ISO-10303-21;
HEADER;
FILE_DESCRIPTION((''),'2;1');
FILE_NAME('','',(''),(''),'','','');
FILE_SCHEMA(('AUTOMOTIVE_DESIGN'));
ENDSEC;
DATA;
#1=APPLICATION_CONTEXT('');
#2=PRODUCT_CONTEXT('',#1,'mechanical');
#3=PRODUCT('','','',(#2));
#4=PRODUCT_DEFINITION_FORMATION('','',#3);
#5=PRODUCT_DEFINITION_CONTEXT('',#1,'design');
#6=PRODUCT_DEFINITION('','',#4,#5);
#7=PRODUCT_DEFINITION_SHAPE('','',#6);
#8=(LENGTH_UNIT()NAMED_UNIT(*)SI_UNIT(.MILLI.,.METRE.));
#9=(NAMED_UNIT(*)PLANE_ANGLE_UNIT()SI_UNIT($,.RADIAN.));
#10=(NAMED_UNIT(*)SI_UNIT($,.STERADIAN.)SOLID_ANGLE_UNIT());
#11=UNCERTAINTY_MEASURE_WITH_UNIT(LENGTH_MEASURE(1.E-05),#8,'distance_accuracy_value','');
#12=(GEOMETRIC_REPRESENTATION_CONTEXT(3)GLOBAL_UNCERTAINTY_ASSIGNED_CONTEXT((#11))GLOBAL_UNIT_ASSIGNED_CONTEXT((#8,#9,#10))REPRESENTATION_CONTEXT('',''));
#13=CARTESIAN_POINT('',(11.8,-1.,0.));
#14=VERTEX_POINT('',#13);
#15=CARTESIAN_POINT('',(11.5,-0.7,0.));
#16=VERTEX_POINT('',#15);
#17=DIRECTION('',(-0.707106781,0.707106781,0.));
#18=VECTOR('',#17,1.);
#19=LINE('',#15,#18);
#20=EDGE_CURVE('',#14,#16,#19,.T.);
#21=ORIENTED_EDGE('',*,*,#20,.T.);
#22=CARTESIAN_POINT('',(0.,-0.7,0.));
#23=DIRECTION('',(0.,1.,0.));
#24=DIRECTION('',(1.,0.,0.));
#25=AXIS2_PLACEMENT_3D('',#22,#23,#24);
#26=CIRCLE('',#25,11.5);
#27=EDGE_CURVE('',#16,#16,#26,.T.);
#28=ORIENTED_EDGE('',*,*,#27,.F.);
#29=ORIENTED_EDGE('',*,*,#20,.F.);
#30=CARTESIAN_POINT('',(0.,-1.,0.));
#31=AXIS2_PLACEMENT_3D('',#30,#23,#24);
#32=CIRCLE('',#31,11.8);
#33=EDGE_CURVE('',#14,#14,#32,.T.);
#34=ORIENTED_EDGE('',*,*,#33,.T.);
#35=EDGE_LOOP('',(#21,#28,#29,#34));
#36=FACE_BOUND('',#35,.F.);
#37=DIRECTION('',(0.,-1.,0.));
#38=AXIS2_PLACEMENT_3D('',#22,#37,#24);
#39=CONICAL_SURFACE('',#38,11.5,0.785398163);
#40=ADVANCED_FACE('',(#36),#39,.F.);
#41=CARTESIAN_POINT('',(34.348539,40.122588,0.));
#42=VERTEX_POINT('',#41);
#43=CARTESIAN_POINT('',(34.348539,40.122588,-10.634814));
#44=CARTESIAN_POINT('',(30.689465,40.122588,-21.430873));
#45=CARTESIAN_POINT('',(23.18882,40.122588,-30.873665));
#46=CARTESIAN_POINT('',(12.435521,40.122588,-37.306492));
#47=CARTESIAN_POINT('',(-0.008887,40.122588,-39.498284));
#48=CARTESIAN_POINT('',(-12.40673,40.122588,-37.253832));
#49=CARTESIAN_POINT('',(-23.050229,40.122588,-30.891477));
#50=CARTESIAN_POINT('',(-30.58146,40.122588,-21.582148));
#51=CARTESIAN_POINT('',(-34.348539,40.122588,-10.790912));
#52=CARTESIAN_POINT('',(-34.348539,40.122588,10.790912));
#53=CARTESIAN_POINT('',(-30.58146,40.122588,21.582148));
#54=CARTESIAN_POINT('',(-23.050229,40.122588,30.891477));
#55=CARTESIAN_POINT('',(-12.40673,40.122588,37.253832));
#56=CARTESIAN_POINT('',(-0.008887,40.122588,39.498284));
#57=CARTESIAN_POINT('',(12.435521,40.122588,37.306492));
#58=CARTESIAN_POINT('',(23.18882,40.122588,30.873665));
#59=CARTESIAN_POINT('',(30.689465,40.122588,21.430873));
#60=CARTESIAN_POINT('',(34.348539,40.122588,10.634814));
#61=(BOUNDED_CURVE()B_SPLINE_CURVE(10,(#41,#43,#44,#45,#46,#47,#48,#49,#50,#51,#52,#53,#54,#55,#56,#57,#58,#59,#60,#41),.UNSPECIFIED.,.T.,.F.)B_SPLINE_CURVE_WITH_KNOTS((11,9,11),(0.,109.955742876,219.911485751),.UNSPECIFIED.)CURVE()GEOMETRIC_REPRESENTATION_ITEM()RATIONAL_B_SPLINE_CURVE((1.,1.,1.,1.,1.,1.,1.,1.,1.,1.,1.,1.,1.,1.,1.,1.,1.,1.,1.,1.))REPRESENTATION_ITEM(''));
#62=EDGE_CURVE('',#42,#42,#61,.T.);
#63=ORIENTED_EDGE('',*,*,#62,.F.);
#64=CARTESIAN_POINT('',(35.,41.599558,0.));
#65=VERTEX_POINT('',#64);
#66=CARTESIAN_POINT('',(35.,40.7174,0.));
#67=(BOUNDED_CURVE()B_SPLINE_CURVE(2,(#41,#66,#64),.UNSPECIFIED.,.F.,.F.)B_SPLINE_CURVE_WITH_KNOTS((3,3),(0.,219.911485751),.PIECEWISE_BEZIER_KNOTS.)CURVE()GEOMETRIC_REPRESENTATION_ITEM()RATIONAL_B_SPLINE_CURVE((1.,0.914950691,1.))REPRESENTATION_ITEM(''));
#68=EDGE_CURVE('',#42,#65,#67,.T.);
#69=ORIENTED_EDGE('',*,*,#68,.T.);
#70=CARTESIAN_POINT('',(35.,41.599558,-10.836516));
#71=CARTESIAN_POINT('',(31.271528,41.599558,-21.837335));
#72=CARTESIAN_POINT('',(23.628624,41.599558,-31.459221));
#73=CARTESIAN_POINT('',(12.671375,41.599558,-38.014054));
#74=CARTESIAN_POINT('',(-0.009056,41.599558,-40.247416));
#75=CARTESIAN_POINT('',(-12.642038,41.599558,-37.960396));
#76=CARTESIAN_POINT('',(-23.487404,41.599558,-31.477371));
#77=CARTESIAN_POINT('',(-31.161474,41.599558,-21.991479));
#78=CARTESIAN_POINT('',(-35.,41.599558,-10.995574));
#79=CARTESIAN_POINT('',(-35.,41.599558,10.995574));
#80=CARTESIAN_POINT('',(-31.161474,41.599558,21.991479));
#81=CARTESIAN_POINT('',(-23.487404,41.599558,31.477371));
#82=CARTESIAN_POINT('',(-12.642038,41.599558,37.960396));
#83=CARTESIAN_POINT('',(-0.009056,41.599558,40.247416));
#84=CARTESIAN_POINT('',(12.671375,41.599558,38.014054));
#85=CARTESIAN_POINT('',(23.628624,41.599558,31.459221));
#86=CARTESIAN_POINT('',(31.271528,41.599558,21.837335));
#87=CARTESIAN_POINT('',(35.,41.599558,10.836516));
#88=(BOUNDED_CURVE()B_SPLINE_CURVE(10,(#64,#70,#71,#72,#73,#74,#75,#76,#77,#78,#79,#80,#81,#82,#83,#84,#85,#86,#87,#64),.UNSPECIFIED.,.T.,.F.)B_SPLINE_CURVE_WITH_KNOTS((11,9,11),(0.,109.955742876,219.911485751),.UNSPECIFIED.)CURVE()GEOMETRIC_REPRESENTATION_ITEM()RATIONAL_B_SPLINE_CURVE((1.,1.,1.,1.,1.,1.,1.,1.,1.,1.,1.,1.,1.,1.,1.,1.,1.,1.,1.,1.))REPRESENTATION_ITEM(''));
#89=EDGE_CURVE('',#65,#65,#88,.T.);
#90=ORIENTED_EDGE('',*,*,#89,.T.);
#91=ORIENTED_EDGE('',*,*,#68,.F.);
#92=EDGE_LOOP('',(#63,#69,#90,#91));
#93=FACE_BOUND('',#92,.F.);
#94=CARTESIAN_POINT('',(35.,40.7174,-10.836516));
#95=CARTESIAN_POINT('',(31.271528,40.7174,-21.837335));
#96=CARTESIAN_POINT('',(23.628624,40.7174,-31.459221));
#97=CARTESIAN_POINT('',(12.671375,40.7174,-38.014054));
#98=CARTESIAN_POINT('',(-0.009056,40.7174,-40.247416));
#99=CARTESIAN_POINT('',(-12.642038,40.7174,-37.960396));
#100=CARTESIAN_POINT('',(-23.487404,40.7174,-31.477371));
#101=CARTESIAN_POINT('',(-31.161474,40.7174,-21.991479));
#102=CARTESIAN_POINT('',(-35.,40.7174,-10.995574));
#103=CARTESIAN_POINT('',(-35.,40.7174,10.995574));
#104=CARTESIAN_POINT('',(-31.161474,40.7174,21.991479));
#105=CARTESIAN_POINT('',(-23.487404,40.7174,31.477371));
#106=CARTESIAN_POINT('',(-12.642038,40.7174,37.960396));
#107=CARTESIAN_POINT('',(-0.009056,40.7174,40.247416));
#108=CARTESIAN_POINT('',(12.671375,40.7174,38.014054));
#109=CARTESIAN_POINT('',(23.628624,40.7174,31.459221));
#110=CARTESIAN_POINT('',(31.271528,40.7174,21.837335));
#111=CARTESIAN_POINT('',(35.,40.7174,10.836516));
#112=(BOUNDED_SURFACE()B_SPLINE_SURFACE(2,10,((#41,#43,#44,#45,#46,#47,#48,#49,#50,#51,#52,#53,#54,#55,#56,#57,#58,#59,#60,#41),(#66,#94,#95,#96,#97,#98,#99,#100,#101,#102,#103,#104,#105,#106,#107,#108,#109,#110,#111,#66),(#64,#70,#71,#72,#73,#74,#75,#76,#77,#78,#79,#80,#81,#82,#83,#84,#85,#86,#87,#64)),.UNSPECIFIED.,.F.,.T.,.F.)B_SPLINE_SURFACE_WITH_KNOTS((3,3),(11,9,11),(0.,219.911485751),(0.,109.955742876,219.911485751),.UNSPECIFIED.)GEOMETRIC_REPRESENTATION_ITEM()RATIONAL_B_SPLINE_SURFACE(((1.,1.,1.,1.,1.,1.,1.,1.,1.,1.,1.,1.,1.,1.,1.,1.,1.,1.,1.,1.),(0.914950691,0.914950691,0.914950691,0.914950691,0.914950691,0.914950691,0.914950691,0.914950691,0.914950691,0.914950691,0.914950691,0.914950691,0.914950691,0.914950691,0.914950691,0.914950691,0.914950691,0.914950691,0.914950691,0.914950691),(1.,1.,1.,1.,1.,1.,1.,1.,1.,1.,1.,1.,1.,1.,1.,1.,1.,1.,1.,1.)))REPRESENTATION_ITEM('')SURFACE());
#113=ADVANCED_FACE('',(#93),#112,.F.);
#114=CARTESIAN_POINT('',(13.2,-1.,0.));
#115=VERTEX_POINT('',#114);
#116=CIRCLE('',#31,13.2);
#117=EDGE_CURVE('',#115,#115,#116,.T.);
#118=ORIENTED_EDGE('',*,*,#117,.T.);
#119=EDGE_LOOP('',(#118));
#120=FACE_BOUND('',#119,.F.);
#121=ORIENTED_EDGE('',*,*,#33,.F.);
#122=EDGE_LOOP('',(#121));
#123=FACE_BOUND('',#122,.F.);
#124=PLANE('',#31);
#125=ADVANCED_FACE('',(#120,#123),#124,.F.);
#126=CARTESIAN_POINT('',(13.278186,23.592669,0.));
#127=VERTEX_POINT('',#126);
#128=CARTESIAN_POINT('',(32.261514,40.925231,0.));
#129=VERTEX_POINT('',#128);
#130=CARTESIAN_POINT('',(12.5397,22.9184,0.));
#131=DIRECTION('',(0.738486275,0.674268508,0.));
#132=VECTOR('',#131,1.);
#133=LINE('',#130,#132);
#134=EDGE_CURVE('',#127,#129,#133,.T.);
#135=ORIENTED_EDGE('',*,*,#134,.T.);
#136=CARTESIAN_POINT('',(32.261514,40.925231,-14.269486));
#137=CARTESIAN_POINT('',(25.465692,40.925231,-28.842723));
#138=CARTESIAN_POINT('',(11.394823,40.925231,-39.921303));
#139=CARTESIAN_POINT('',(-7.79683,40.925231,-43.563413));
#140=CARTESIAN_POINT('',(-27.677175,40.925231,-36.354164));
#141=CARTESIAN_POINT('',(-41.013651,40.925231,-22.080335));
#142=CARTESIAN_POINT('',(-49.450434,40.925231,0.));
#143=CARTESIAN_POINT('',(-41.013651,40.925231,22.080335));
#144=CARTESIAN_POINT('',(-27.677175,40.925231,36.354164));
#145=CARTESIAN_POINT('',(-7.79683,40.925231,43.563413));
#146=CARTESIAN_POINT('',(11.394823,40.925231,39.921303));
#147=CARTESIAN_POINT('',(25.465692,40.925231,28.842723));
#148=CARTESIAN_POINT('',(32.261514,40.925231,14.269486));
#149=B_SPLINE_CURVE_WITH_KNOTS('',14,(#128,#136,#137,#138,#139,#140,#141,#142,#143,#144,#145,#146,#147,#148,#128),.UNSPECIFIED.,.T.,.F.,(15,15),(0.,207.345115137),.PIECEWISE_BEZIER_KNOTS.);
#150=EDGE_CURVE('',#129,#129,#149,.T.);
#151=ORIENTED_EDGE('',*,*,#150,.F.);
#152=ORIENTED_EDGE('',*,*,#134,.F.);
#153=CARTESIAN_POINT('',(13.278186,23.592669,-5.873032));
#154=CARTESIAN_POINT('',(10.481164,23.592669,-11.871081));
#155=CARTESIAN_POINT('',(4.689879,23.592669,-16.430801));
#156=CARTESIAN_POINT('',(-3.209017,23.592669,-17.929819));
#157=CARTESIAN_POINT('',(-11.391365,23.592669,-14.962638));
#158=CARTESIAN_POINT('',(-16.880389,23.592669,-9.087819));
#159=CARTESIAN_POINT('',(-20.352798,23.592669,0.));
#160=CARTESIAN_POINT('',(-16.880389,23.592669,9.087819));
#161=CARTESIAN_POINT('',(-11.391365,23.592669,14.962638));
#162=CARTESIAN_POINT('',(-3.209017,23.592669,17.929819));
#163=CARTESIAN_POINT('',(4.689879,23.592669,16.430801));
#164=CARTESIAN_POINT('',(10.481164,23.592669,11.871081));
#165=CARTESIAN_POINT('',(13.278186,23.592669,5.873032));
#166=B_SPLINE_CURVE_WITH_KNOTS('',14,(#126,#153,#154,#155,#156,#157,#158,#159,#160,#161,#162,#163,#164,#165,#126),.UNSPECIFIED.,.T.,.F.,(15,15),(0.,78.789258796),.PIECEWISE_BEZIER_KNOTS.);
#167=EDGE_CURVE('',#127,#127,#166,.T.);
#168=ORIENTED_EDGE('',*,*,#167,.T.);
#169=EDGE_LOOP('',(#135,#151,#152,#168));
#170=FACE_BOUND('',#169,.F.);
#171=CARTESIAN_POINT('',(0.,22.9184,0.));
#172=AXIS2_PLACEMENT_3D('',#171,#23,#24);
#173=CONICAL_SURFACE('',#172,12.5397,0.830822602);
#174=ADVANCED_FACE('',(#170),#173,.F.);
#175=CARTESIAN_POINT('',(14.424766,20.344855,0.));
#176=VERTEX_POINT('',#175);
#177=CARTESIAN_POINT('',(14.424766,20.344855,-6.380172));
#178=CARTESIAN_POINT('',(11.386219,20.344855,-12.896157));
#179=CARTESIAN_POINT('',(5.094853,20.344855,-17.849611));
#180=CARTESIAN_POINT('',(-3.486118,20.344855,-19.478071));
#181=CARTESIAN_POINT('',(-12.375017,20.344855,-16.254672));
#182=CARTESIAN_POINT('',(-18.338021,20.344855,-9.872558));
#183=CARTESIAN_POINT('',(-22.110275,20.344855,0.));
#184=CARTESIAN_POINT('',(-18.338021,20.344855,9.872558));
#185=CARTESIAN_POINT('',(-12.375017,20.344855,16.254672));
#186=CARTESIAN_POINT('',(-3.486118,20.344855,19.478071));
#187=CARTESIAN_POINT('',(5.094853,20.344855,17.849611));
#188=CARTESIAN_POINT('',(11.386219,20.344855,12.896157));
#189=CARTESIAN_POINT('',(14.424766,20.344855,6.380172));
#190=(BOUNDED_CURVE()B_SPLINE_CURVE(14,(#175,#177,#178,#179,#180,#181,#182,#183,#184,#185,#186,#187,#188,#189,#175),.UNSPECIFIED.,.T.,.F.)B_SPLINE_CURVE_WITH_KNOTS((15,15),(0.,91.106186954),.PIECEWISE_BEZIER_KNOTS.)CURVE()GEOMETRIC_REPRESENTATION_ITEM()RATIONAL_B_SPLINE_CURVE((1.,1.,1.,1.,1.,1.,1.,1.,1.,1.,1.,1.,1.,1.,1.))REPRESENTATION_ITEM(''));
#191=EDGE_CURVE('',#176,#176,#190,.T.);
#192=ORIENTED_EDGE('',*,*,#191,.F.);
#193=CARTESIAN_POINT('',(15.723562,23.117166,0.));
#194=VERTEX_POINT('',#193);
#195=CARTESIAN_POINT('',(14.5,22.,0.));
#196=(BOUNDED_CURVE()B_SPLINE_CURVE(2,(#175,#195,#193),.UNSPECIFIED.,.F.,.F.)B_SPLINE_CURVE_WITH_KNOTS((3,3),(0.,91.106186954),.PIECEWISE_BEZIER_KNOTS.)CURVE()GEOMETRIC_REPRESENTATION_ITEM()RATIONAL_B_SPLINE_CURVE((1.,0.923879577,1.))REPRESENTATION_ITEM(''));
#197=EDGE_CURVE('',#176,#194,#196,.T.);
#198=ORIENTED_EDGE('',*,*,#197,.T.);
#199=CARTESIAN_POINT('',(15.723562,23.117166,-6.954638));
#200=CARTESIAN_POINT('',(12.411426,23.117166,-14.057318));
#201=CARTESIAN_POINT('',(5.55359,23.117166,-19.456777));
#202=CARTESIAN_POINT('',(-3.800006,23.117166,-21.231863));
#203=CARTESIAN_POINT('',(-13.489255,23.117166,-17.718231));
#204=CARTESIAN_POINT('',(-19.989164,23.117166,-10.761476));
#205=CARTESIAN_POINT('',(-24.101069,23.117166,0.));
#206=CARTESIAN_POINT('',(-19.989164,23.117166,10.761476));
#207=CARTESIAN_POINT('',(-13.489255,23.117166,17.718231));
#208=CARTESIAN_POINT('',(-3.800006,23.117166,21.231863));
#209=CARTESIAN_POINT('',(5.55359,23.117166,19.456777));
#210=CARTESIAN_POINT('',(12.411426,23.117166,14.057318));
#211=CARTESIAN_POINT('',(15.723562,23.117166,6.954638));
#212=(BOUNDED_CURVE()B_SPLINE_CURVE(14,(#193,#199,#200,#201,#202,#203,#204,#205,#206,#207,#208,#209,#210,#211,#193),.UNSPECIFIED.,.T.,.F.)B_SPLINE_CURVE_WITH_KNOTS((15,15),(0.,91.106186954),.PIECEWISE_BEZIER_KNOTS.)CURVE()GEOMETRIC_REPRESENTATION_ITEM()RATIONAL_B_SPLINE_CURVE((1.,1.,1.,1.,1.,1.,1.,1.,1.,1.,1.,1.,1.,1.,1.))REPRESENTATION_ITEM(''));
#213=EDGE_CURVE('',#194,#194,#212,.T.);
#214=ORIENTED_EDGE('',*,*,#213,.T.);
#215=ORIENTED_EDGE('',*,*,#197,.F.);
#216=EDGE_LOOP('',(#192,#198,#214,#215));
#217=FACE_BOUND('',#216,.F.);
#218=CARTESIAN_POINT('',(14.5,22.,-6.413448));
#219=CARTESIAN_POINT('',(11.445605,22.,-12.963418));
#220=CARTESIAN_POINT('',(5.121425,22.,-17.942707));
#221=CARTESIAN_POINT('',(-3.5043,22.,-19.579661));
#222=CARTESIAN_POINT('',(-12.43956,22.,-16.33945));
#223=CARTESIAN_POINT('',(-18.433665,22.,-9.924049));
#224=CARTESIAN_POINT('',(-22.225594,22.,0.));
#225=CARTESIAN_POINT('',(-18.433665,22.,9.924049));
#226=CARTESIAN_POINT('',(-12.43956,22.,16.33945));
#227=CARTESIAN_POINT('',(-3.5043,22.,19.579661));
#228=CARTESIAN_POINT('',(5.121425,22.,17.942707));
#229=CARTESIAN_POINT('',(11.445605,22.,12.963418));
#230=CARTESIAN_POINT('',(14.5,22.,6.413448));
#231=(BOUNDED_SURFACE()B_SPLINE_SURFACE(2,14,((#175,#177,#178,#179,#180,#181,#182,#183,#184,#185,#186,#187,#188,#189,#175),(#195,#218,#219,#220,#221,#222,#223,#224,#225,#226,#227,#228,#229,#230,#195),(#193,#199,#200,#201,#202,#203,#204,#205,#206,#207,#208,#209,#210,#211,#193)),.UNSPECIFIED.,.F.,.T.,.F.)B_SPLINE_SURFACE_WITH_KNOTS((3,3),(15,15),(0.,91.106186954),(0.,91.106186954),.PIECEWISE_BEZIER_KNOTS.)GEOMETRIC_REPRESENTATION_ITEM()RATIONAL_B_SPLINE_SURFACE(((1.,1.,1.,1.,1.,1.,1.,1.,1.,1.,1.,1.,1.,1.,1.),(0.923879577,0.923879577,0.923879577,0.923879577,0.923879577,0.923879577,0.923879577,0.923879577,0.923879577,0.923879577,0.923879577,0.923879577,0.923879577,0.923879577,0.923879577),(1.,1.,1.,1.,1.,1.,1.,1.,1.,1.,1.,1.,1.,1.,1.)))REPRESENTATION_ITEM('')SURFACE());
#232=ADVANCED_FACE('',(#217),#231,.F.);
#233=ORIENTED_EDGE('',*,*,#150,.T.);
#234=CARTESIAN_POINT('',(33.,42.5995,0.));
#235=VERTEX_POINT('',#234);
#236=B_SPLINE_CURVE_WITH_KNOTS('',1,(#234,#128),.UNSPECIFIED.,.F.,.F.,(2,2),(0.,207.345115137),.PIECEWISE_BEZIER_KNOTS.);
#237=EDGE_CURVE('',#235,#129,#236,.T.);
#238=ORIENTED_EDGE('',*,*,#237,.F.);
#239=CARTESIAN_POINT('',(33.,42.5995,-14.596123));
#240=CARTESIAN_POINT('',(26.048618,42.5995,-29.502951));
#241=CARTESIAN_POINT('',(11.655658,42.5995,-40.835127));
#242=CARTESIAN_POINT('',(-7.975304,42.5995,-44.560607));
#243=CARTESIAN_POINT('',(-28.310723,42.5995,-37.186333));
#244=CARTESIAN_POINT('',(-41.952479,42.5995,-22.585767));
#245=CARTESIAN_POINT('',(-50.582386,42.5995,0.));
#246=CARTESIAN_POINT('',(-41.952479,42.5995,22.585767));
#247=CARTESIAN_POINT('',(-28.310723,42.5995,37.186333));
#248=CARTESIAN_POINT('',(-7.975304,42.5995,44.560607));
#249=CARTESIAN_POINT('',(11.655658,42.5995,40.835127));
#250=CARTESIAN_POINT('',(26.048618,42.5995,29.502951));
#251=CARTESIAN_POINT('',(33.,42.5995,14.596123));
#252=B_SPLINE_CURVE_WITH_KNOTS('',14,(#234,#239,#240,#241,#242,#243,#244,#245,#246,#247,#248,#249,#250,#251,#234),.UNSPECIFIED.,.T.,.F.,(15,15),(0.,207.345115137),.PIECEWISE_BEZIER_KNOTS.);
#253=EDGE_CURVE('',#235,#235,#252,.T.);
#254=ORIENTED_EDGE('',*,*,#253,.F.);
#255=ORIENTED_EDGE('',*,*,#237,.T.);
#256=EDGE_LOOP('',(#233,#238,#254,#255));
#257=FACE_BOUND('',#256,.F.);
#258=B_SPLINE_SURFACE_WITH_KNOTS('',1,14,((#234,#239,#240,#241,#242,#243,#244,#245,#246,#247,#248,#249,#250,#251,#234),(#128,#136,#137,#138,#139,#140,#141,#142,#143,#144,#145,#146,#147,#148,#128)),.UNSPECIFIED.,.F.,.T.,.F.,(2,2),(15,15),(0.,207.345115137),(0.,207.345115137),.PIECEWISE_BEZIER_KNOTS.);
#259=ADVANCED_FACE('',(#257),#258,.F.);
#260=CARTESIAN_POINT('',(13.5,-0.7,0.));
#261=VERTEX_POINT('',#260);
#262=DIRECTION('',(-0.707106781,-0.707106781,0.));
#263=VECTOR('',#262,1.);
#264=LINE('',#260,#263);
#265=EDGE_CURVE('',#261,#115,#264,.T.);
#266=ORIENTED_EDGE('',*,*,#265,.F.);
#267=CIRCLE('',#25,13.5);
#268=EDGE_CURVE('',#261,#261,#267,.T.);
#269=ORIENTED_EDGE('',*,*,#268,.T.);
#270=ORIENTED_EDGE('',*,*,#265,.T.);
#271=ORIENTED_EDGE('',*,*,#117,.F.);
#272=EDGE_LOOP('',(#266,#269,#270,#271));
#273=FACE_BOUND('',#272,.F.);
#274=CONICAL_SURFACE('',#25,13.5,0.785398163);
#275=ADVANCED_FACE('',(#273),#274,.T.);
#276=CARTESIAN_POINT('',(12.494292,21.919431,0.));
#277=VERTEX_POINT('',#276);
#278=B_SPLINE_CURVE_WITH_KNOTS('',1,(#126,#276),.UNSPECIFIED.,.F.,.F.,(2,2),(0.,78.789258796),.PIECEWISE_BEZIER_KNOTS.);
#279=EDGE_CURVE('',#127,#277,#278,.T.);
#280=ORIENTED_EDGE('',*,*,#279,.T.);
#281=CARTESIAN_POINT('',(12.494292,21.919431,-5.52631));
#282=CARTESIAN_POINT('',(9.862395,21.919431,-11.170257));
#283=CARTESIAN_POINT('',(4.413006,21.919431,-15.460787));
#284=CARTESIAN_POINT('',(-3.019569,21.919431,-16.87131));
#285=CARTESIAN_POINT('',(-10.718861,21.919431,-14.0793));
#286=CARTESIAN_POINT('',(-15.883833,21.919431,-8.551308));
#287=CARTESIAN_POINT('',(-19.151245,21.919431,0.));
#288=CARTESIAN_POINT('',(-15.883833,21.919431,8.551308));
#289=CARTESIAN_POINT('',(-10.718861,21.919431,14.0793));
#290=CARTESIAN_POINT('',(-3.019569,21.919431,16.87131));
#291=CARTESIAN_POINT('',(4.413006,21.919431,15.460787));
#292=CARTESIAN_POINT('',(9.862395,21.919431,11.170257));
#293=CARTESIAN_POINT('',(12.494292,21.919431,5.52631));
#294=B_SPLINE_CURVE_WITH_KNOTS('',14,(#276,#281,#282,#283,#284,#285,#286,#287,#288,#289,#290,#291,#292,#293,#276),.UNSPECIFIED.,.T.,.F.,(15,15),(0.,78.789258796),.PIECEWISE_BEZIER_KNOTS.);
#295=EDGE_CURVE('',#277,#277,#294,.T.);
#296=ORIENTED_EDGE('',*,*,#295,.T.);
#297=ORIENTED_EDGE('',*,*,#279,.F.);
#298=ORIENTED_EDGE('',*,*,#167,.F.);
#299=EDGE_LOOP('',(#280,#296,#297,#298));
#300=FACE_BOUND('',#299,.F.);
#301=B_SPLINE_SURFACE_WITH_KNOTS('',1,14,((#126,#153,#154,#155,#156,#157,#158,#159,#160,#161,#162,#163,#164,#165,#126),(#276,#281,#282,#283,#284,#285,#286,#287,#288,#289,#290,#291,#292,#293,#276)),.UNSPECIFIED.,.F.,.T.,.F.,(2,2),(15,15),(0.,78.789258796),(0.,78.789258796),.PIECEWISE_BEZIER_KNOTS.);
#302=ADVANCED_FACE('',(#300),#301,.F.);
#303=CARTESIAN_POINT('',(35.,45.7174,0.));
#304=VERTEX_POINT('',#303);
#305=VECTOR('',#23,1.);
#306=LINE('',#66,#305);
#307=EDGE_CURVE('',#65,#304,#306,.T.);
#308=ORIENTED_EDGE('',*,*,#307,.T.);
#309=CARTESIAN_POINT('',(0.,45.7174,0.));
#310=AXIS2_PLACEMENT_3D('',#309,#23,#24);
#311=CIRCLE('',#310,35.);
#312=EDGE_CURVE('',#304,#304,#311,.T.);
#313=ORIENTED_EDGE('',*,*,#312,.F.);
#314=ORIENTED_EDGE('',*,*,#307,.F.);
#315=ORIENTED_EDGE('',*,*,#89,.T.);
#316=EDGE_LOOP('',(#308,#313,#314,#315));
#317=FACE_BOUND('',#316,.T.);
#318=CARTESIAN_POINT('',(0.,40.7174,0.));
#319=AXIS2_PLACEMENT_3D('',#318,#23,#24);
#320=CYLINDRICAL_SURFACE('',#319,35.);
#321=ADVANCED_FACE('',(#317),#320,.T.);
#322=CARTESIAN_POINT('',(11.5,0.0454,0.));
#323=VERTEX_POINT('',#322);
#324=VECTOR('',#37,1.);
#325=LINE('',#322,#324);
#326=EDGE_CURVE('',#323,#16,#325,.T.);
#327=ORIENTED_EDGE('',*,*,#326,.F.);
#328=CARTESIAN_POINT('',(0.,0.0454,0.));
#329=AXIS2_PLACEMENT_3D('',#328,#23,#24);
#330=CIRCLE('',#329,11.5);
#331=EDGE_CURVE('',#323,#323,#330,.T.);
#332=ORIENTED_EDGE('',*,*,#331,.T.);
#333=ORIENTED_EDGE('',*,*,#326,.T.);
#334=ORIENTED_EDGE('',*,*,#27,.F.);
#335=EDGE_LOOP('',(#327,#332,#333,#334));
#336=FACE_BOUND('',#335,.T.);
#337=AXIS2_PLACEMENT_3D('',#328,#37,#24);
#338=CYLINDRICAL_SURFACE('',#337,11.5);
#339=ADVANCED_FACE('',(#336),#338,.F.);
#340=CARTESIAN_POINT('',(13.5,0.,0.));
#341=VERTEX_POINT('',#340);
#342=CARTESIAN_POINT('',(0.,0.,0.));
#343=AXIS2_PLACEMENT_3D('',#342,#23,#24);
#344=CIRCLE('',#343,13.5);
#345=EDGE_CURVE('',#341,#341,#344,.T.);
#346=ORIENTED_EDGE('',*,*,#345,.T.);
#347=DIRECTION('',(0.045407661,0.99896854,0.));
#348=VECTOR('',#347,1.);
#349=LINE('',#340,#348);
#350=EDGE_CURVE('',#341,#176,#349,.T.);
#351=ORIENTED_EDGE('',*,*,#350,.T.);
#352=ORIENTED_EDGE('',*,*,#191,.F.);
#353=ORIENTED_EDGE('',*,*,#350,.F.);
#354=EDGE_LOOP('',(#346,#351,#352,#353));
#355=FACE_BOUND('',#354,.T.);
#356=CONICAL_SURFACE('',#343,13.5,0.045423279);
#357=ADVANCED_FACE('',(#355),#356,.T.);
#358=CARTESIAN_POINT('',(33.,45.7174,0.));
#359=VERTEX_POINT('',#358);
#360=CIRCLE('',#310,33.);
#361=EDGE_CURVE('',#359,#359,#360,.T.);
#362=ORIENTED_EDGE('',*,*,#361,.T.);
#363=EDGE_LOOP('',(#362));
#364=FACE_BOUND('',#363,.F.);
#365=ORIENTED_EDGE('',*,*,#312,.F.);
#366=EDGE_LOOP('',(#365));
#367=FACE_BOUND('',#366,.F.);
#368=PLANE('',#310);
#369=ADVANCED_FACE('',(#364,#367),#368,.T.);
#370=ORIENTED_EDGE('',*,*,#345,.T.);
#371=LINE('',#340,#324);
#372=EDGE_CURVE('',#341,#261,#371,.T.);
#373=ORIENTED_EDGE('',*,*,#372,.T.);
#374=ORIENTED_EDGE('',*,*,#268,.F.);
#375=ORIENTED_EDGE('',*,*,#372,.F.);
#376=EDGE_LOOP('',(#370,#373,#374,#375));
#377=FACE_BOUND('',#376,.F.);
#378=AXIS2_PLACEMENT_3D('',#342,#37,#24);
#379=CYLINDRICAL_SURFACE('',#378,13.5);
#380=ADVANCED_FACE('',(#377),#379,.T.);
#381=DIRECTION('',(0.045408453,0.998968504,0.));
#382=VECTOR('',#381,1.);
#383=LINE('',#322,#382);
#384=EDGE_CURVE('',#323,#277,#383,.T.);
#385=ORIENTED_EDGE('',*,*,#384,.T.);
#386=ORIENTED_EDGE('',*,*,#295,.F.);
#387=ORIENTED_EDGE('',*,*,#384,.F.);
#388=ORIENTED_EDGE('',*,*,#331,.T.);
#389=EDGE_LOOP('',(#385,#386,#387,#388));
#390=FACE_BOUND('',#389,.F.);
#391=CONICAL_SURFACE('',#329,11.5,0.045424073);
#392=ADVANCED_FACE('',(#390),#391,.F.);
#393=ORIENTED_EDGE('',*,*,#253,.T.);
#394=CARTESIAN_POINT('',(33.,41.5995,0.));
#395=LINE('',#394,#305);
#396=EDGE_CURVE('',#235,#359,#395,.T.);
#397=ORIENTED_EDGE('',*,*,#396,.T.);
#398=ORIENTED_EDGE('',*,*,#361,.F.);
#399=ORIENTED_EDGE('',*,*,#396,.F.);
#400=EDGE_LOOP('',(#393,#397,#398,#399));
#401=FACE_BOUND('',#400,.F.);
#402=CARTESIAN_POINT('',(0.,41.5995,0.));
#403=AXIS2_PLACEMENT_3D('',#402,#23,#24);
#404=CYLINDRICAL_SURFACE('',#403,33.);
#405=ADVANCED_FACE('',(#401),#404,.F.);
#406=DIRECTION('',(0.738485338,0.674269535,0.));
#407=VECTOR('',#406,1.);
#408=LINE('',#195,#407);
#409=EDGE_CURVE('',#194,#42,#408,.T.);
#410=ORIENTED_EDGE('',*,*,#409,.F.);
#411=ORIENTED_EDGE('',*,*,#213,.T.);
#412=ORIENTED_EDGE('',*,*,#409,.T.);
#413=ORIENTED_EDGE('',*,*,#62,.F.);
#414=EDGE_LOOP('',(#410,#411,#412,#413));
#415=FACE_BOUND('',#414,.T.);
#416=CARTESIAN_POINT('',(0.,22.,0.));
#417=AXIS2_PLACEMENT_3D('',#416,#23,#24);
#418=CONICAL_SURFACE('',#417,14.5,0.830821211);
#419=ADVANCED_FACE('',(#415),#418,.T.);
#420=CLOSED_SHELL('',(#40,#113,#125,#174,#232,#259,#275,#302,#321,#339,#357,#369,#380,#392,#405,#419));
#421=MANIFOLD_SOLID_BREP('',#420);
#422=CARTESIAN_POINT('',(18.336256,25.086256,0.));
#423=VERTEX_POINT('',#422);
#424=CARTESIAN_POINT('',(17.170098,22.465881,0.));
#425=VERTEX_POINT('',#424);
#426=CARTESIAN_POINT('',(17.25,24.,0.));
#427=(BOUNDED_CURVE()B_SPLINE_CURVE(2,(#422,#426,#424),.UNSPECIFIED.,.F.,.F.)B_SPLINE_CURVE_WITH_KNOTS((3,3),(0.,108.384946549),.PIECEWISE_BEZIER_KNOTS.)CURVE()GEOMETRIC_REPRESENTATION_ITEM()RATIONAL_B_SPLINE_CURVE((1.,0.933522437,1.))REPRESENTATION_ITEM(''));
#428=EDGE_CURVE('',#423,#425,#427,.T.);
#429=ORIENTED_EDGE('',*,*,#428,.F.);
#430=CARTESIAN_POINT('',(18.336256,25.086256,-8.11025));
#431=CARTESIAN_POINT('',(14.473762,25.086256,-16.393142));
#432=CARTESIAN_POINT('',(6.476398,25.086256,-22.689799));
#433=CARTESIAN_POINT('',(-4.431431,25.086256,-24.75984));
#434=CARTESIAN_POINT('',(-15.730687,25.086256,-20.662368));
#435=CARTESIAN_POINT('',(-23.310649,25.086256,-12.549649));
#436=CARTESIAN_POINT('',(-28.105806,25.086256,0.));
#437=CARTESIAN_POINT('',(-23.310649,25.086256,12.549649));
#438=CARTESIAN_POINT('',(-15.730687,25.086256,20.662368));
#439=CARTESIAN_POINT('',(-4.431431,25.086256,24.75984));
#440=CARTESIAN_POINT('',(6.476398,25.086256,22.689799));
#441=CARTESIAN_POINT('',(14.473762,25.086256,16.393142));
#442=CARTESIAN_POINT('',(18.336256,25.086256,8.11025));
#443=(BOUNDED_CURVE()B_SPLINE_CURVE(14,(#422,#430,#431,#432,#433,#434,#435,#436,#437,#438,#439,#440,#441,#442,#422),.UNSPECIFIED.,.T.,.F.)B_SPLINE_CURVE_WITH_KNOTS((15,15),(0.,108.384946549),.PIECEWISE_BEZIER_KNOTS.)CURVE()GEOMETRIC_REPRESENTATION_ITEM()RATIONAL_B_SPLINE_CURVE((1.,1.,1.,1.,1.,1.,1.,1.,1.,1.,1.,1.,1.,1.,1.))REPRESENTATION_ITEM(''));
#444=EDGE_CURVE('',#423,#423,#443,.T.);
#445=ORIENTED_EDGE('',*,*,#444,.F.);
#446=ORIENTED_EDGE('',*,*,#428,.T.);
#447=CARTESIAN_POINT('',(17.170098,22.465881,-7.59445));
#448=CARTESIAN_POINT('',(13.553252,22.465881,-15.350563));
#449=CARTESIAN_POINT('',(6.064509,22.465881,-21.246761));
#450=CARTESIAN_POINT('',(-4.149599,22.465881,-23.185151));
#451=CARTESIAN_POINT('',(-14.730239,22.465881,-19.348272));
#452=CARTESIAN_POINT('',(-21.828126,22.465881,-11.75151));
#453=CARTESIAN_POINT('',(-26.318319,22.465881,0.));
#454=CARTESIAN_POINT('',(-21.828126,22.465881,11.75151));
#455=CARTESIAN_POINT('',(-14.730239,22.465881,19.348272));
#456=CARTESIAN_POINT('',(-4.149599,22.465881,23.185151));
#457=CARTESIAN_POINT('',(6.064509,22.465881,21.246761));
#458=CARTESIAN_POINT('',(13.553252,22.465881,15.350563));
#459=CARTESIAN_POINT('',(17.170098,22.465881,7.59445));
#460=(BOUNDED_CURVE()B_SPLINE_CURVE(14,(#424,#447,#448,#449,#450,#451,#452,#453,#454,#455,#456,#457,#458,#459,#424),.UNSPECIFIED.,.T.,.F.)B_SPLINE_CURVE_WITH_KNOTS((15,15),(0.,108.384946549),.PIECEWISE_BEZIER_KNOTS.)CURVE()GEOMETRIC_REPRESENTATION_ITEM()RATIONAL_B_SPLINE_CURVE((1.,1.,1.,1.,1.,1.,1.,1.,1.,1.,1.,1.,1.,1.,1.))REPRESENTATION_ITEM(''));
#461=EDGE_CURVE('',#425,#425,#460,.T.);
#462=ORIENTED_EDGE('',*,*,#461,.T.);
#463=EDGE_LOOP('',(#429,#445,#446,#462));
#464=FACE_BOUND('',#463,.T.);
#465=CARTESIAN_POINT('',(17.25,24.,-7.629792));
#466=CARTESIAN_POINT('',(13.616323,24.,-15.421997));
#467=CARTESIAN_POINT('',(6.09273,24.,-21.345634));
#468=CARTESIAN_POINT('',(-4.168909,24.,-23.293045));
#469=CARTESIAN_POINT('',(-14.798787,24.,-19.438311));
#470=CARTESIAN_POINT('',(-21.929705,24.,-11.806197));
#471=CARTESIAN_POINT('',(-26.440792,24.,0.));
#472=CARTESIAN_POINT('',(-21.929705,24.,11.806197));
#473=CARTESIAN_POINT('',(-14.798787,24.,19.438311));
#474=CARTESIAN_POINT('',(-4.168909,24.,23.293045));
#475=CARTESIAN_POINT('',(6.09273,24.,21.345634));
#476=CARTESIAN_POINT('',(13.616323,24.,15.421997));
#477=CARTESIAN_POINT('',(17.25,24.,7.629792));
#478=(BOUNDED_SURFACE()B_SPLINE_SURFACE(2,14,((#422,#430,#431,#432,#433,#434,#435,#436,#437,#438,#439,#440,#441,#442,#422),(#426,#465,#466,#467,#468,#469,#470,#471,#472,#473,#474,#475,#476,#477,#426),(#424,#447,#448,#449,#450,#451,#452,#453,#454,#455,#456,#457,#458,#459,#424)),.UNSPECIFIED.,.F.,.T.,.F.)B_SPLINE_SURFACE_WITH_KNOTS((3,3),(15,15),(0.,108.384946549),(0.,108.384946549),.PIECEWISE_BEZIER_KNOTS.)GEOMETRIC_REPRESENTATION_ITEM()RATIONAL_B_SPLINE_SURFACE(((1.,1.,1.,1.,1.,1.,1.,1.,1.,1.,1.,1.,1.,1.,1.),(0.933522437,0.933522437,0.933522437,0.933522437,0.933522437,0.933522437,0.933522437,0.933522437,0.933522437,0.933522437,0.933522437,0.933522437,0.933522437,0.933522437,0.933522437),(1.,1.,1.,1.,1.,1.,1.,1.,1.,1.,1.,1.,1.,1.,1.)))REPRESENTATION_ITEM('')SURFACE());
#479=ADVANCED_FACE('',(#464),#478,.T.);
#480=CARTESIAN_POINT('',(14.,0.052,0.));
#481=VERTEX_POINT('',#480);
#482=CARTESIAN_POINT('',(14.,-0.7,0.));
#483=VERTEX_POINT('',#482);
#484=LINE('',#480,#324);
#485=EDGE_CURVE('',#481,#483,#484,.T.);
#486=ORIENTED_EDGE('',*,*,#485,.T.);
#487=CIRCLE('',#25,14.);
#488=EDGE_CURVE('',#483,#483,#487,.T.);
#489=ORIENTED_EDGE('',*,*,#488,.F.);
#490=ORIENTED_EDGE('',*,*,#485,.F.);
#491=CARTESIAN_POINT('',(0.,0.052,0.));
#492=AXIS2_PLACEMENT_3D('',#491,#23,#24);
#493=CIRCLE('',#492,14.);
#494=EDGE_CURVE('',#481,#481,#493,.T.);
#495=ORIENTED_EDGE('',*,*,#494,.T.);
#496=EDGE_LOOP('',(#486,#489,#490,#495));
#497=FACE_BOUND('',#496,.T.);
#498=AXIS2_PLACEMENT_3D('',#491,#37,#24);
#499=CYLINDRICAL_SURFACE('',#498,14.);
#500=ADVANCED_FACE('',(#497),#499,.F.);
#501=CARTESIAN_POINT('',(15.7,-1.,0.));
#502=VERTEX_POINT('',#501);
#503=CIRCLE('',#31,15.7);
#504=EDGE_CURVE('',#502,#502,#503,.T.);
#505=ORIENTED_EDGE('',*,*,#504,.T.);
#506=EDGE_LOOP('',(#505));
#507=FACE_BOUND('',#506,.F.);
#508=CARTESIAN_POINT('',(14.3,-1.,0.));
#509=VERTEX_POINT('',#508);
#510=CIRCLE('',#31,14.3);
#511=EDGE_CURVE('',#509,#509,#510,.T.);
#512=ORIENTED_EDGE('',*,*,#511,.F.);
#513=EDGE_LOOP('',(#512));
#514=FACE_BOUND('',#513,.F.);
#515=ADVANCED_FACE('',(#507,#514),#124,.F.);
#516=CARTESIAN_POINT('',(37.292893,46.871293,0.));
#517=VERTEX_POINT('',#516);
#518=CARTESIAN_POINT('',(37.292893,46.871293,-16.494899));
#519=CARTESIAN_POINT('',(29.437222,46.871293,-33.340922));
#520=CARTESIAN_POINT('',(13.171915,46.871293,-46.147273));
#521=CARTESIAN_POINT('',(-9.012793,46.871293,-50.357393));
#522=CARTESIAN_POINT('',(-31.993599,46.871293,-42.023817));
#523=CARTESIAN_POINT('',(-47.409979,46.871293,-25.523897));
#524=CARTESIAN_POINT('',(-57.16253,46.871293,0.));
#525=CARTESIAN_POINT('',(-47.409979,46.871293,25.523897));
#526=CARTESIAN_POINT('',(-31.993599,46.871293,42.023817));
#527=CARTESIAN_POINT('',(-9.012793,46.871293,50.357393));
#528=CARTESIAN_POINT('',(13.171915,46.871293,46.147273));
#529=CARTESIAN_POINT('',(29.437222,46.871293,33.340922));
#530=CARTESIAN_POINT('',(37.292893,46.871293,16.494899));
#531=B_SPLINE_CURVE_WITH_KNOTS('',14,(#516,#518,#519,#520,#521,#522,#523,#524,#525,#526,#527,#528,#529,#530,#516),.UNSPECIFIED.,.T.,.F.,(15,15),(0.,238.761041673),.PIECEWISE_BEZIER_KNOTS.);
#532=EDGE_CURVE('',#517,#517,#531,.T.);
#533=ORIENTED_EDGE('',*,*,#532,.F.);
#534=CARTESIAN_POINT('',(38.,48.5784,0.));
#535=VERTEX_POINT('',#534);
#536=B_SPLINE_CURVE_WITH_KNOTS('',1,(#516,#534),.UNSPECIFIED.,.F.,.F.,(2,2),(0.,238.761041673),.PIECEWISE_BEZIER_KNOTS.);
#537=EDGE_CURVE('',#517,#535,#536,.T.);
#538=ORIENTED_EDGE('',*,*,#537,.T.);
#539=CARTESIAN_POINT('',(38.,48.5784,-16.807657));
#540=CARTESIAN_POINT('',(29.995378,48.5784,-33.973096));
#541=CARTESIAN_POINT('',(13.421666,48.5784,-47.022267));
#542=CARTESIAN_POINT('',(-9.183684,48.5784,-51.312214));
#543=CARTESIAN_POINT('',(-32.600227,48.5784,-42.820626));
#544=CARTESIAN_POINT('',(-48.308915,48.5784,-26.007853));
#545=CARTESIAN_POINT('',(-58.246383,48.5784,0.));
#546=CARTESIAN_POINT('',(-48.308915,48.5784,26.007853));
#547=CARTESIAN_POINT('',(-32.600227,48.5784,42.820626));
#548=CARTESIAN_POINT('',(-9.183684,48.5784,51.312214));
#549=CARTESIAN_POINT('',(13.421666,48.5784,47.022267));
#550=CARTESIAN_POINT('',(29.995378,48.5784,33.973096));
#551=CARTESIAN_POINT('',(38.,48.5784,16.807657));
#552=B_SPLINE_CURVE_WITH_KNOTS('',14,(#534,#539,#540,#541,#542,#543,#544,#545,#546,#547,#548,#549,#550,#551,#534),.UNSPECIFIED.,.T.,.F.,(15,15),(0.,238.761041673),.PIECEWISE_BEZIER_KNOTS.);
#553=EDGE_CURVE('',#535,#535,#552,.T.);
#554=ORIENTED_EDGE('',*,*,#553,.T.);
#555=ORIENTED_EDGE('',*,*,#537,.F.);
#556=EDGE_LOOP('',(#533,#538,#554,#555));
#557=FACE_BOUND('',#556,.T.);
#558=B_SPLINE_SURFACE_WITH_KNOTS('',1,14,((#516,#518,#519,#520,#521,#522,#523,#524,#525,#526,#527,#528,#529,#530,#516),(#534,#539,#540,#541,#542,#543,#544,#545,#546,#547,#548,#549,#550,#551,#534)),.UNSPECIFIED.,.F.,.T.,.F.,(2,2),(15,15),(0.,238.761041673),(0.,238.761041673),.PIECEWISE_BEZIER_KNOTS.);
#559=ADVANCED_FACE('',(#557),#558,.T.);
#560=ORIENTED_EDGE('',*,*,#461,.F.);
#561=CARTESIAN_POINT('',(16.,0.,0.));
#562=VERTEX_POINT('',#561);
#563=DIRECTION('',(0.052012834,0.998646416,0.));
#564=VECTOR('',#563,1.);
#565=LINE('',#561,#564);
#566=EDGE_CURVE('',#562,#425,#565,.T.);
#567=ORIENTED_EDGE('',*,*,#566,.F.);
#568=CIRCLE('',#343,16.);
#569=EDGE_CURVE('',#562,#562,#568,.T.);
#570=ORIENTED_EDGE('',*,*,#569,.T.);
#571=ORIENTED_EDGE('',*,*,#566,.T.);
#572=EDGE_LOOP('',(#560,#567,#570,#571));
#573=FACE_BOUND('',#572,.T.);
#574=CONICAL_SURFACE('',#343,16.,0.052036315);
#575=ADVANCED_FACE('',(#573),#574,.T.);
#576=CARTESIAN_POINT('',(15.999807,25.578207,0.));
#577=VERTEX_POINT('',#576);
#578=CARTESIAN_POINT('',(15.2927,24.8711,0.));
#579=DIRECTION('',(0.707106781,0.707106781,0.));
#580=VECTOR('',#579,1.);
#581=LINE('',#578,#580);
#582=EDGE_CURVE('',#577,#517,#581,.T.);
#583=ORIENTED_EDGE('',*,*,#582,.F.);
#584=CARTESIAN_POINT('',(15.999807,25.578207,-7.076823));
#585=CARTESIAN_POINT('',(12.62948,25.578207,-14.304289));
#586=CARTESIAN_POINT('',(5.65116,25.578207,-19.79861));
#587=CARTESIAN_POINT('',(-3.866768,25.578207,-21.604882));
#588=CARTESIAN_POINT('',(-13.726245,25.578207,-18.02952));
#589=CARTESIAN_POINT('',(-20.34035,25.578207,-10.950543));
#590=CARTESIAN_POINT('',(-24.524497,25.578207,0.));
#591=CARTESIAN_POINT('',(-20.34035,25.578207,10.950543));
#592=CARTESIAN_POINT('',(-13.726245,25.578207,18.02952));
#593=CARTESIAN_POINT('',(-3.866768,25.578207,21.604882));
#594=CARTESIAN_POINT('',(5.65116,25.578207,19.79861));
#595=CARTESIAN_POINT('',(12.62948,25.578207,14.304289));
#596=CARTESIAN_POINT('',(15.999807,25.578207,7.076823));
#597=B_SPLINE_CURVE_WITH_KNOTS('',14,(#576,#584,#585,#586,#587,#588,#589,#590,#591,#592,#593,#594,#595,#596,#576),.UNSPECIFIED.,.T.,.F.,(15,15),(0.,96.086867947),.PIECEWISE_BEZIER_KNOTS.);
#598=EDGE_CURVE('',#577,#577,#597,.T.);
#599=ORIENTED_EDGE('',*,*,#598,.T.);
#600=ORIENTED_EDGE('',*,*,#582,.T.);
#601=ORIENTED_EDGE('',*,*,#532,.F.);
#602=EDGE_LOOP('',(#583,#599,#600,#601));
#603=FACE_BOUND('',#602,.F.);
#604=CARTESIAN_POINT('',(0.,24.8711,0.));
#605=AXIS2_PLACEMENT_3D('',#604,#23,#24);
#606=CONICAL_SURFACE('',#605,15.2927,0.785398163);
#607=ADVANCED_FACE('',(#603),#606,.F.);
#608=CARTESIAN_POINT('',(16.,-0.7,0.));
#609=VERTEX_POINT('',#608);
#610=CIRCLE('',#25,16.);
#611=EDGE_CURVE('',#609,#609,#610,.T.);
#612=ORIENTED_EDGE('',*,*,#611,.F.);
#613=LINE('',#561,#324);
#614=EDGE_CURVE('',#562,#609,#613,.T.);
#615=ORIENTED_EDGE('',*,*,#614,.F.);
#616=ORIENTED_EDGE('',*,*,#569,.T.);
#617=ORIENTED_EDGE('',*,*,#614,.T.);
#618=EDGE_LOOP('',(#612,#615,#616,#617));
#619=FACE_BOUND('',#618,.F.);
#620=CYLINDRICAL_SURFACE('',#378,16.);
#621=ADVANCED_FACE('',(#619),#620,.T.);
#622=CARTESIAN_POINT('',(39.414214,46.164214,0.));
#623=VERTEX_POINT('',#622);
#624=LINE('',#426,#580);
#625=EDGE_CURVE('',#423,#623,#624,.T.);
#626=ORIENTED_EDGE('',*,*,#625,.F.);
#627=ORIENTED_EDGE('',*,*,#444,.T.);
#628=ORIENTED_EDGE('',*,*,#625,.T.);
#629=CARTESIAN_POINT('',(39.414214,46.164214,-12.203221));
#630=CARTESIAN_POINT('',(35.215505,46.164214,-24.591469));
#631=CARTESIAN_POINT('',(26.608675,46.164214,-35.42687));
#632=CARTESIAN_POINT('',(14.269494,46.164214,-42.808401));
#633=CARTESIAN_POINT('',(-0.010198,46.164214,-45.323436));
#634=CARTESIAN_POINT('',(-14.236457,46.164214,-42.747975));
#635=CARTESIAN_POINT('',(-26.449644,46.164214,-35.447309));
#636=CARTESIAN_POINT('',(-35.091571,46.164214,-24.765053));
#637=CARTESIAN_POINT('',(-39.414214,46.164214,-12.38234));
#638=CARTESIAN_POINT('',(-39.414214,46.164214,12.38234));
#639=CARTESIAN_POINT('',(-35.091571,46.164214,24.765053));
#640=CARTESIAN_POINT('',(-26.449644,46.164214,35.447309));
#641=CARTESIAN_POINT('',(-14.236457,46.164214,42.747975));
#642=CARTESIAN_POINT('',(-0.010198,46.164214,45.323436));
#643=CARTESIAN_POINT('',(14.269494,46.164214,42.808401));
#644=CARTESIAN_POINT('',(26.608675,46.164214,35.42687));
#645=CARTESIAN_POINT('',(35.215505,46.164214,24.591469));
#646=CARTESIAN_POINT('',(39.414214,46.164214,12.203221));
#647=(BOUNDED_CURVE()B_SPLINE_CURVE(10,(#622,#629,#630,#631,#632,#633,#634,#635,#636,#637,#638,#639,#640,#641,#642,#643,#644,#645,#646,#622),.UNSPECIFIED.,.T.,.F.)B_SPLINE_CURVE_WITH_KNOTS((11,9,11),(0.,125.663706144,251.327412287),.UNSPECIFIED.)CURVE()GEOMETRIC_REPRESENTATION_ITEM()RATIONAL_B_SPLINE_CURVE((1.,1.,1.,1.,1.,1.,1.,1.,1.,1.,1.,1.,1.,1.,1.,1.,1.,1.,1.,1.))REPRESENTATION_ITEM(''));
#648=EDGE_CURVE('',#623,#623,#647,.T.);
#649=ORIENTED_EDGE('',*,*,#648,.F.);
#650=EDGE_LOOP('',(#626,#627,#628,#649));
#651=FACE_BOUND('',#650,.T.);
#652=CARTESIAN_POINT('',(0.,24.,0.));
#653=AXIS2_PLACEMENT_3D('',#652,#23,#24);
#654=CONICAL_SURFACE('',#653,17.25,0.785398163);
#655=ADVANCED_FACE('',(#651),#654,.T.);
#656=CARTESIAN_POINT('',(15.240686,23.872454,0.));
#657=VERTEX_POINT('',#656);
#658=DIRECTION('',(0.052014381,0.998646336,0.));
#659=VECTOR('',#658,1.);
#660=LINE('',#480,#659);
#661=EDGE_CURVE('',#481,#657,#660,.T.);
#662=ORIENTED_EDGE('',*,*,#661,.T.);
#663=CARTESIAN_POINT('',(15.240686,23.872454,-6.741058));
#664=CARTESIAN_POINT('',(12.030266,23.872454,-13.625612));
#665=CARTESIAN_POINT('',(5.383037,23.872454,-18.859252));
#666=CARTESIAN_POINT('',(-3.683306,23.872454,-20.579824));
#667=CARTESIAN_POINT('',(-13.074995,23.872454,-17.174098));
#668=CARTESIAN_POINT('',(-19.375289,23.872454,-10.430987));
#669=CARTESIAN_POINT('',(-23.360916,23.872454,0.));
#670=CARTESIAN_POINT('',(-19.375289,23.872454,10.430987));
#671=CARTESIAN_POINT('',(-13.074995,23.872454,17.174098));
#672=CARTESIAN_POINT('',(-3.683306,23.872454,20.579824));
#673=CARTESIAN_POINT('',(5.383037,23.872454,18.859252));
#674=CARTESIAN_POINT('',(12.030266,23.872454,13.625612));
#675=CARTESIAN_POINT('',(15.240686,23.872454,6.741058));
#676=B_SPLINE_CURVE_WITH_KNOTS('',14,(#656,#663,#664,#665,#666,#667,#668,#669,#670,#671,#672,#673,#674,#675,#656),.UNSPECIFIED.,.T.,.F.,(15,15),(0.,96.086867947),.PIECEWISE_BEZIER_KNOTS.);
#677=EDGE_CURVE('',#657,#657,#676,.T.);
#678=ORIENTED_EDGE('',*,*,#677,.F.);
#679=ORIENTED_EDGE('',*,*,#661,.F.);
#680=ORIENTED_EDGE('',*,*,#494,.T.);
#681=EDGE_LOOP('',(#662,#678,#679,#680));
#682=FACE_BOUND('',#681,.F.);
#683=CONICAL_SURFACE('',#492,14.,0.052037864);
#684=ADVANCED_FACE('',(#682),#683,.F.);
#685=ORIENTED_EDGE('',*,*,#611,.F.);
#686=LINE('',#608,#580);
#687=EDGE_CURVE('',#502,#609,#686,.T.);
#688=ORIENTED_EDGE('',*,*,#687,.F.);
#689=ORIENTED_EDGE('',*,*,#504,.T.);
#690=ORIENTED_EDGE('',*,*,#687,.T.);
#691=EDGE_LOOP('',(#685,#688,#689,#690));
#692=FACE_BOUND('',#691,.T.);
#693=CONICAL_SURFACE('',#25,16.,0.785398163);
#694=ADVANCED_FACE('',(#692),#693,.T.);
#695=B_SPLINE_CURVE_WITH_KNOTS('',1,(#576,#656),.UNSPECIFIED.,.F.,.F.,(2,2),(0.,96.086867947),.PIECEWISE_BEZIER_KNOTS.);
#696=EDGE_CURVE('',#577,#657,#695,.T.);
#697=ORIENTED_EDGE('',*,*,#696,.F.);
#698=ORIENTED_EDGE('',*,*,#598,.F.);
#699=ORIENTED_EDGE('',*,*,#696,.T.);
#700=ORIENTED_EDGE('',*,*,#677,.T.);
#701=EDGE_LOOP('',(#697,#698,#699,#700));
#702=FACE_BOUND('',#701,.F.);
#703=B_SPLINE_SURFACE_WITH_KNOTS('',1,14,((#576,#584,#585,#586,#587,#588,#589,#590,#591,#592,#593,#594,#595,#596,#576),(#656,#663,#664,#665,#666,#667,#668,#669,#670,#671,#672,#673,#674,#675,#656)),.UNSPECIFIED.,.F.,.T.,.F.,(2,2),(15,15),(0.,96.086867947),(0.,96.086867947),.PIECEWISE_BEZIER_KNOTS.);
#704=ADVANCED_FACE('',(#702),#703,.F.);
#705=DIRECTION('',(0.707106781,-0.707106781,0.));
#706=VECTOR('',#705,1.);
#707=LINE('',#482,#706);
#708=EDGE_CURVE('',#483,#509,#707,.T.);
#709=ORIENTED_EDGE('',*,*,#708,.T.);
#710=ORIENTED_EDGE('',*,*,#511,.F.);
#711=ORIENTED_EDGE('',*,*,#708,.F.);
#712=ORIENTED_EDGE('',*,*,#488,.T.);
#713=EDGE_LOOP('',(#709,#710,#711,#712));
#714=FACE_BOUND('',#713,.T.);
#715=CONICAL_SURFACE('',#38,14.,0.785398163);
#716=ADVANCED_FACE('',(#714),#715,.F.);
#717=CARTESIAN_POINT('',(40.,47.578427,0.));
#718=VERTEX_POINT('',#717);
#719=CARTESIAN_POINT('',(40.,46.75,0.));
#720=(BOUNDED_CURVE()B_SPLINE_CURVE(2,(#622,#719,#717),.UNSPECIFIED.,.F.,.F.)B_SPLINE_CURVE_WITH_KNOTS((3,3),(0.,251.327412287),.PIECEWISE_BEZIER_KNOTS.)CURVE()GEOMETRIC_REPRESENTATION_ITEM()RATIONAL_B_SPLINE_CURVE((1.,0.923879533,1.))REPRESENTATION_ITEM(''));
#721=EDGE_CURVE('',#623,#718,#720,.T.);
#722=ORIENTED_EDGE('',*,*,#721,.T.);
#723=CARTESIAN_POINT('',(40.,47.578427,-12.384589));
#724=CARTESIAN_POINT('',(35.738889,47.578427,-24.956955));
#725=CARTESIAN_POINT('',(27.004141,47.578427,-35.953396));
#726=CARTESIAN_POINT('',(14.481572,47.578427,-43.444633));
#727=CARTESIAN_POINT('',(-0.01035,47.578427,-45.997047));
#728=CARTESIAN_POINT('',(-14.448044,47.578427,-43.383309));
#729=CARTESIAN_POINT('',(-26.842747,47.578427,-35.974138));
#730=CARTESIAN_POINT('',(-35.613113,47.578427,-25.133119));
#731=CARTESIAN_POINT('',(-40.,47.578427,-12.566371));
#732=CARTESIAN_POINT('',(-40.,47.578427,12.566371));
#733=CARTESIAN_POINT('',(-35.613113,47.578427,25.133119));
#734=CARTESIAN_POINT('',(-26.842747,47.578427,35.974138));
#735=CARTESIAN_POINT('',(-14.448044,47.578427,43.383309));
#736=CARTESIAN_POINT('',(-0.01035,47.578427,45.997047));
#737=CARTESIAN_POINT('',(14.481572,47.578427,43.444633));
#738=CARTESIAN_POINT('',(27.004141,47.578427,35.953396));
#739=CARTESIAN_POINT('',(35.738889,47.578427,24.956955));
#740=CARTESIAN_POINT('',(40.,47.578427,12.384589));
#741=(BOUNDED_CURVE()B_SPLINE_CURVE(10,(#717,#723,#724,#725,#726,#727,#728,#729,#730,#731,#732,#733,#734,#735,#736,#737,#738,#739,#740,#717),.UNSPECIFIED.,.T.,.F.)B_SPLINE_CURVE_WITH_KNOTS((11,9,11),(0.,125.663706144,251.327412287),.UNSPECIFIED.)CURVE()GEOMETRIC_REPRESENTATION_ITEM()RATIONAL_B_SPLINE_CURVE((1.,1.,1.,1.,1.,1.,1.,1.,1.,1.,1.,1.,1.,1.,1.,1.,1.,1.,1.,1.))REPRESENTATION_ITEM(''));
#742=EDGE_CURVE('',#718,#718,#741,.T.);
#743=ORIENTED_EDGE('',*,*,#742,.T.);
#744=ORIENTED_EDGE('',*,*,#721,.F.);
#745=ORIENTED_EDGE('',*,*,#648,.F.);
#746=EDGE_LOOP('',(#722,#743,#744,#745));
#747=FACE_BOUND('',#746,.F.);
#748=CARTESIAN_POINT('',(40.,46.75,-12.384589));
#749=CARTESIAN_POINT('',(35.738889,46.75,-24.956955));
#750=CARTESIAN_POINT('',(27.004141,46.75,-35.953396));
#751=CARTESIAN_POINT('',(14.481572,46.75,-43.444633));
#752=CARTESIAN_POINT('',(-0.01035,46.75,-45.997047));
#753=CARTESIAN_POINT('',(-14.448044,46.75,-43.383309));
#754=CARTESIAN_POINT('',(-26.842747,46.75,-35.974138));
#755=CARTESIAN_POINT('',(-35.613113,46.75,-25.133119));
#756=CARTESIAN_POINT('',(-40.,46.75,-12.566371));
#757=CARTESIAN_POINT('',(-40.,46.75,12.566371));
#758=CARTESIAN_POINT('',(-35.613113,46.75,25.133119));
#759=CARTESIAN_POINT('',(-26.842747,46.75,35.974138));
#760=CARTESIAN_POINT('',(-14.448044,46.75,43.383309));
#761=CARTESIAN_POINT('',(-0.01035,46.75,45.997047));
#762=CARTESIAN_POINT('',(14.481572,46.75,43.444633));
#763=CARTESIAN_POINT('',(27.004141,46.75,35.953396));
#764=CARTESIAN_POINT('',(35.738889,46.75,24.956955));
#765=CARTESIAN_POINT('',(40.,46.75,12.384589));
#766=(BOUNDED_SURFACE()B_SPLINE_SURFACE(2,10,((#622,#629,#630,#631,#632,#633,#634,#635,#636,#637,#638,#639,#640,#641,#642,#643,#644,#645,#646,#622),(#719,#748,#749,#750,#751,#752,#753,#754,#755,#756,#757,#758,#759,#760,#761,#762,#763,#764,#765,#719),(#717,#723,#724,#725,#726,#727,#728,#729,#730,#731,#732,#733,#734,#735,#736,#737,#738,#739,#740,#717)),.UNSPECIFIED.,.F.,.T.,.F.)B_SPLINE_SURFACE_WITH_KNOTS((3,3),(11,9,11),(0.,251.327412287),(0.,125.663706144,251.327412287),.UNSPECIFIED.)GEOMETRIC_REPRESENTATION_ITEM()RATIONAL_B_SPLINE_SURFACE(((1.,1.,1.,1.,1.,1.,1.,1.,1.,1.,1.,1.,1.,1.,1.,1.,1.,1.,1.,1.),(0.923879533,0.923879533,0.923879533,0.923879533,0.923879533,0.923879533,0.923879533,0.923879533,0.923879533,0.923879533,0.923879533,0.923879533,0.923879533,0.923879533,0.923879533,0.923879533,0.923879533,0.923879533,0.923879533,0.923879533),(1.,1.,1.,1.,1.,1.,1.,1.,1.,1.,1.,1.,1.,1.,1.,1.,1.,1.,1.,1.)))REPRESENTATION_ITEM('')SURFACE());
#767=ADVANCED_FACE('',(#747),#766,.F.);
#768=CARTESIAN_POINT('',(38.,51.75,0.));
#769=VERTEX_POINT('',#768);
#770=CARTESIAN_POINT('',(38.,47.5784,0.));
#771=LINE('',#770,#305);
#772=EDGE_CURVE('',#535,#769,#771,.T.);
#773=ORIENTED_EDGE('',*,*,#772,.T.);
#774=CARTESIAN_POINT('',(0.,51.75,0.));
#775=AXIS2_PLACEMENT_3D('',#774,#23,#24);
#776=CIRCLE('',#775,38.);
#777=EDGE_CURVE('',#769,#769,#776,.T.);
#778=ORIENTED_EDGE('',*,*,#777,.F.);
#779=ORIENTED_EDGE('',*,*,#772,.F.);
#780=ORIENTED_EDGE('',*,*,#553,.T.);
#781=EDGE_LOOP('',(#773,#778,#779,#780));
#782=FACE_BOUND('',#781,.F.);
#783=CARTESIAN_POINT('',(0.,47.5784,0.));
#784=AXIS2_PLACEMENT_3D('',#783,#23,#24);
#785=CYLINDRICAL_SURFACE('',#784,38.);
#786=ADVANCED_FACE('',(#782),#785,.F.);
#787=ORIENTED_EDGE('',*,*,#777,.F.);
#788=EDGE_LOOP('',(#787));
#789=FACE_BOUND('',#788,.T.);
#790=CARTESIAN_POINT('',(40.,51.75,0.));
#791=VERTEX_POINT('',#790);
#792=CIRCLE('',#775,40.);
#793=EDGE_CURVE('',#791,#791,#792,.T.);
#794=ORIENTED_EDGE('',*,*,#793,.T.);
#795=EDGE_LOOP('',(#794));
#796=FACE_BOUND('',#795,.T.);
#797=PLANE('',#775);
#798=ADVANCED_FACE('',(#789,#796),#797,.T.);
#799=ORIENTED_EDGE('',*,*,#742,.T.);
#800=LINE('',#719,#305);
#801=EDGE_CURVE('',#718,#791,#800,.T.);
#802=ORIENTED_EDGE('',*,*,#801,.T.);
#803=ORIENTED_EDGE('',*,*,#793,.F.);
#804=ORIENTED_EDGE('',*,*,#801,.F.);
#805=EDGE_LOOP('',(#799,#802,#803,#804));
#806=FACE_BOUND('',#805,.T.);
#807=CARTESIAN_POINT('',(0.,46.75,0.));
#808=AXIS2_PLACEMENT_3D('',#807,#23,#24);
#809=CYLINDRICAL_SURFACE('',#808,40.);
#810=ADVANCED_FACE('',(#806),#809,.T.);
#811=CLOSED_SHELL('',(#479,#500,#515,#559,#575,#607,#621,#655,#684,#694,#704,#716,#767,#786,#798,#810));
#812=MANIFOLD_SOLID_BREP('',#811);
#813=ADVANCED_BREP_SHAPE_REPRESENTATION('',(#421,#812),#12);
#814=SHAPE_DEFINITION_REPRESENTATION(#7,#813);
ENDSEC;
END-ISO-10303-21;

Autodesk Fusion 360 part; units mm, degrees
sketch "Sketch1" plane through (0, 0, 0) normal (0, 0, 1) x (1, 0, 0)
  line L0 (16, 0) -> (17.25, 24)
  line L1 (17.25, 24) -> (40, 46.75)
  line L2 (17.25, 24) -> (32.4024, 24) construction
  line L3 (40, 46.75) -> (40, 51.75)
  line L4 (16, 0) -> (16, -1)
  line L5 (38, 47.5784) -> (38, 51.75)
  line L6 (15.2927, 24.8711) -> (38, 47.5784)
  line L7 (14, 0.052) -> (15.2927, 24.8711)
  line L8 (14, 0.052) -> (14, -1)
  line L9 (40, 51.75) -> (38, 51.75)
  line L10 (16, -1) -> (14, -1)
  dimension "d1" = 16
  dimension "d2" = 17.25
  dimension "d3" = 24
  dimension "d6" = 45
  dimension "d7" = 40
  dimension "d8" = 5
  dimension "d9" = 1
  dimension "d10" = -2
revolve "Revolve1" add sketch "Sketch1" angle 360 about axis through (0, 1.75, 0) along (0, 1, 0) makes body 1
fillet "Fillet1" radius 4 1 edges at (-16.0826, 24, -6.2379) on bodies 1
fillet "Fillet2" radius 2 1 edges at (-37.2931, 46.75, -14.4646) on bodies 1
chamfer "Chamfer1" distance 1 angle 45 1 edges at (-14.2578, 24.8711, -5.5301) on bodies 1
chamfer "Chamfer2" distance 1 angle 45 1 edges at (-35.4284, 47.5784, -13.7414) on bodies 1
chamfer "Chamfer3" distance 0.3 angle 45 2 edges at (-13.0526, -1, -5.0626) (-14.9172, -1, -5.7858) on bodies 1
sketch "Sketch2" plane through (0, 0, 0) normal (0, 0, 1) x (1, 0, 0)
  line L0 (13.5, 0) -> (14.5, 22)
  line L1 (14.5, 22) -> (35, 40.7174)
  line L2 (35, 40.7174) -> (35, 45.7174)
  line L3 (13.5, 0) -> (13.5, -1)
  line L4 (33, 41.5995) -> (33, 45.7174)
  line L5 (12.5397, 22.9184) -> (33, 41.5995)
  line L6 (11.5, 0.0454) -> (12.5397, 22.9184)
  line L7 (11.5, 0.0454) -> (11.5, -1)
  line L8 (13.5, -1) -> (11.5, -1)
  line L9 (33, 45.7174) -> (35, 45.7174)
  dimension "d19" = 135
  dimension "d20" = 5
  dimension "d21" = 13.5
  dimension "d22" = 14.5
  dimension "d23" = 22
  dimension "d24" = 35
  dimension "d25" = 1
  dimension "d26" = -2
revolve "Revolve2" add sketch "Sketch2" angle 360 about axis through (0, 1.75, 0) along (0, 1, 0) separate body makes body 2
chamfer "Chamfer4" distance 0.3 angle 45 2 edges at (-10.7218, -1, -4.1586) (-12.5864, -1, -4.8818) on bodies 2
fillet "Fillet3" radius 4 1 edges at (-13.5187, 22, -5.2434) on bodies 2
fillet "Fillet4" radius 2 1 edges at (-32.6315, 40.7174, -12.6565) on bodies 2
chamfer "Chamfer5" distance 1 angle 45 2 edges at (-30.7668, 41.5995, -11.9333) (-11.6911, 22.9184, -4.5345) on bodies 2
equation "d1 = ( 32 / 2 ) * 1 mm"
equation "d2 = ( 34.5 / 2 ) * 1 mm"
equation "d7 = ( 80 / 2 ) * 1 mm"
equation "d19 = 45 deg + 90 deg"
equation "d21 = ( 27 / 2 ) * 1 mm"
equation "d22 = ( 29 / 2 ) * 1 mm"
equation "d24 = ( 70 / 2 ) * 1 mm"
